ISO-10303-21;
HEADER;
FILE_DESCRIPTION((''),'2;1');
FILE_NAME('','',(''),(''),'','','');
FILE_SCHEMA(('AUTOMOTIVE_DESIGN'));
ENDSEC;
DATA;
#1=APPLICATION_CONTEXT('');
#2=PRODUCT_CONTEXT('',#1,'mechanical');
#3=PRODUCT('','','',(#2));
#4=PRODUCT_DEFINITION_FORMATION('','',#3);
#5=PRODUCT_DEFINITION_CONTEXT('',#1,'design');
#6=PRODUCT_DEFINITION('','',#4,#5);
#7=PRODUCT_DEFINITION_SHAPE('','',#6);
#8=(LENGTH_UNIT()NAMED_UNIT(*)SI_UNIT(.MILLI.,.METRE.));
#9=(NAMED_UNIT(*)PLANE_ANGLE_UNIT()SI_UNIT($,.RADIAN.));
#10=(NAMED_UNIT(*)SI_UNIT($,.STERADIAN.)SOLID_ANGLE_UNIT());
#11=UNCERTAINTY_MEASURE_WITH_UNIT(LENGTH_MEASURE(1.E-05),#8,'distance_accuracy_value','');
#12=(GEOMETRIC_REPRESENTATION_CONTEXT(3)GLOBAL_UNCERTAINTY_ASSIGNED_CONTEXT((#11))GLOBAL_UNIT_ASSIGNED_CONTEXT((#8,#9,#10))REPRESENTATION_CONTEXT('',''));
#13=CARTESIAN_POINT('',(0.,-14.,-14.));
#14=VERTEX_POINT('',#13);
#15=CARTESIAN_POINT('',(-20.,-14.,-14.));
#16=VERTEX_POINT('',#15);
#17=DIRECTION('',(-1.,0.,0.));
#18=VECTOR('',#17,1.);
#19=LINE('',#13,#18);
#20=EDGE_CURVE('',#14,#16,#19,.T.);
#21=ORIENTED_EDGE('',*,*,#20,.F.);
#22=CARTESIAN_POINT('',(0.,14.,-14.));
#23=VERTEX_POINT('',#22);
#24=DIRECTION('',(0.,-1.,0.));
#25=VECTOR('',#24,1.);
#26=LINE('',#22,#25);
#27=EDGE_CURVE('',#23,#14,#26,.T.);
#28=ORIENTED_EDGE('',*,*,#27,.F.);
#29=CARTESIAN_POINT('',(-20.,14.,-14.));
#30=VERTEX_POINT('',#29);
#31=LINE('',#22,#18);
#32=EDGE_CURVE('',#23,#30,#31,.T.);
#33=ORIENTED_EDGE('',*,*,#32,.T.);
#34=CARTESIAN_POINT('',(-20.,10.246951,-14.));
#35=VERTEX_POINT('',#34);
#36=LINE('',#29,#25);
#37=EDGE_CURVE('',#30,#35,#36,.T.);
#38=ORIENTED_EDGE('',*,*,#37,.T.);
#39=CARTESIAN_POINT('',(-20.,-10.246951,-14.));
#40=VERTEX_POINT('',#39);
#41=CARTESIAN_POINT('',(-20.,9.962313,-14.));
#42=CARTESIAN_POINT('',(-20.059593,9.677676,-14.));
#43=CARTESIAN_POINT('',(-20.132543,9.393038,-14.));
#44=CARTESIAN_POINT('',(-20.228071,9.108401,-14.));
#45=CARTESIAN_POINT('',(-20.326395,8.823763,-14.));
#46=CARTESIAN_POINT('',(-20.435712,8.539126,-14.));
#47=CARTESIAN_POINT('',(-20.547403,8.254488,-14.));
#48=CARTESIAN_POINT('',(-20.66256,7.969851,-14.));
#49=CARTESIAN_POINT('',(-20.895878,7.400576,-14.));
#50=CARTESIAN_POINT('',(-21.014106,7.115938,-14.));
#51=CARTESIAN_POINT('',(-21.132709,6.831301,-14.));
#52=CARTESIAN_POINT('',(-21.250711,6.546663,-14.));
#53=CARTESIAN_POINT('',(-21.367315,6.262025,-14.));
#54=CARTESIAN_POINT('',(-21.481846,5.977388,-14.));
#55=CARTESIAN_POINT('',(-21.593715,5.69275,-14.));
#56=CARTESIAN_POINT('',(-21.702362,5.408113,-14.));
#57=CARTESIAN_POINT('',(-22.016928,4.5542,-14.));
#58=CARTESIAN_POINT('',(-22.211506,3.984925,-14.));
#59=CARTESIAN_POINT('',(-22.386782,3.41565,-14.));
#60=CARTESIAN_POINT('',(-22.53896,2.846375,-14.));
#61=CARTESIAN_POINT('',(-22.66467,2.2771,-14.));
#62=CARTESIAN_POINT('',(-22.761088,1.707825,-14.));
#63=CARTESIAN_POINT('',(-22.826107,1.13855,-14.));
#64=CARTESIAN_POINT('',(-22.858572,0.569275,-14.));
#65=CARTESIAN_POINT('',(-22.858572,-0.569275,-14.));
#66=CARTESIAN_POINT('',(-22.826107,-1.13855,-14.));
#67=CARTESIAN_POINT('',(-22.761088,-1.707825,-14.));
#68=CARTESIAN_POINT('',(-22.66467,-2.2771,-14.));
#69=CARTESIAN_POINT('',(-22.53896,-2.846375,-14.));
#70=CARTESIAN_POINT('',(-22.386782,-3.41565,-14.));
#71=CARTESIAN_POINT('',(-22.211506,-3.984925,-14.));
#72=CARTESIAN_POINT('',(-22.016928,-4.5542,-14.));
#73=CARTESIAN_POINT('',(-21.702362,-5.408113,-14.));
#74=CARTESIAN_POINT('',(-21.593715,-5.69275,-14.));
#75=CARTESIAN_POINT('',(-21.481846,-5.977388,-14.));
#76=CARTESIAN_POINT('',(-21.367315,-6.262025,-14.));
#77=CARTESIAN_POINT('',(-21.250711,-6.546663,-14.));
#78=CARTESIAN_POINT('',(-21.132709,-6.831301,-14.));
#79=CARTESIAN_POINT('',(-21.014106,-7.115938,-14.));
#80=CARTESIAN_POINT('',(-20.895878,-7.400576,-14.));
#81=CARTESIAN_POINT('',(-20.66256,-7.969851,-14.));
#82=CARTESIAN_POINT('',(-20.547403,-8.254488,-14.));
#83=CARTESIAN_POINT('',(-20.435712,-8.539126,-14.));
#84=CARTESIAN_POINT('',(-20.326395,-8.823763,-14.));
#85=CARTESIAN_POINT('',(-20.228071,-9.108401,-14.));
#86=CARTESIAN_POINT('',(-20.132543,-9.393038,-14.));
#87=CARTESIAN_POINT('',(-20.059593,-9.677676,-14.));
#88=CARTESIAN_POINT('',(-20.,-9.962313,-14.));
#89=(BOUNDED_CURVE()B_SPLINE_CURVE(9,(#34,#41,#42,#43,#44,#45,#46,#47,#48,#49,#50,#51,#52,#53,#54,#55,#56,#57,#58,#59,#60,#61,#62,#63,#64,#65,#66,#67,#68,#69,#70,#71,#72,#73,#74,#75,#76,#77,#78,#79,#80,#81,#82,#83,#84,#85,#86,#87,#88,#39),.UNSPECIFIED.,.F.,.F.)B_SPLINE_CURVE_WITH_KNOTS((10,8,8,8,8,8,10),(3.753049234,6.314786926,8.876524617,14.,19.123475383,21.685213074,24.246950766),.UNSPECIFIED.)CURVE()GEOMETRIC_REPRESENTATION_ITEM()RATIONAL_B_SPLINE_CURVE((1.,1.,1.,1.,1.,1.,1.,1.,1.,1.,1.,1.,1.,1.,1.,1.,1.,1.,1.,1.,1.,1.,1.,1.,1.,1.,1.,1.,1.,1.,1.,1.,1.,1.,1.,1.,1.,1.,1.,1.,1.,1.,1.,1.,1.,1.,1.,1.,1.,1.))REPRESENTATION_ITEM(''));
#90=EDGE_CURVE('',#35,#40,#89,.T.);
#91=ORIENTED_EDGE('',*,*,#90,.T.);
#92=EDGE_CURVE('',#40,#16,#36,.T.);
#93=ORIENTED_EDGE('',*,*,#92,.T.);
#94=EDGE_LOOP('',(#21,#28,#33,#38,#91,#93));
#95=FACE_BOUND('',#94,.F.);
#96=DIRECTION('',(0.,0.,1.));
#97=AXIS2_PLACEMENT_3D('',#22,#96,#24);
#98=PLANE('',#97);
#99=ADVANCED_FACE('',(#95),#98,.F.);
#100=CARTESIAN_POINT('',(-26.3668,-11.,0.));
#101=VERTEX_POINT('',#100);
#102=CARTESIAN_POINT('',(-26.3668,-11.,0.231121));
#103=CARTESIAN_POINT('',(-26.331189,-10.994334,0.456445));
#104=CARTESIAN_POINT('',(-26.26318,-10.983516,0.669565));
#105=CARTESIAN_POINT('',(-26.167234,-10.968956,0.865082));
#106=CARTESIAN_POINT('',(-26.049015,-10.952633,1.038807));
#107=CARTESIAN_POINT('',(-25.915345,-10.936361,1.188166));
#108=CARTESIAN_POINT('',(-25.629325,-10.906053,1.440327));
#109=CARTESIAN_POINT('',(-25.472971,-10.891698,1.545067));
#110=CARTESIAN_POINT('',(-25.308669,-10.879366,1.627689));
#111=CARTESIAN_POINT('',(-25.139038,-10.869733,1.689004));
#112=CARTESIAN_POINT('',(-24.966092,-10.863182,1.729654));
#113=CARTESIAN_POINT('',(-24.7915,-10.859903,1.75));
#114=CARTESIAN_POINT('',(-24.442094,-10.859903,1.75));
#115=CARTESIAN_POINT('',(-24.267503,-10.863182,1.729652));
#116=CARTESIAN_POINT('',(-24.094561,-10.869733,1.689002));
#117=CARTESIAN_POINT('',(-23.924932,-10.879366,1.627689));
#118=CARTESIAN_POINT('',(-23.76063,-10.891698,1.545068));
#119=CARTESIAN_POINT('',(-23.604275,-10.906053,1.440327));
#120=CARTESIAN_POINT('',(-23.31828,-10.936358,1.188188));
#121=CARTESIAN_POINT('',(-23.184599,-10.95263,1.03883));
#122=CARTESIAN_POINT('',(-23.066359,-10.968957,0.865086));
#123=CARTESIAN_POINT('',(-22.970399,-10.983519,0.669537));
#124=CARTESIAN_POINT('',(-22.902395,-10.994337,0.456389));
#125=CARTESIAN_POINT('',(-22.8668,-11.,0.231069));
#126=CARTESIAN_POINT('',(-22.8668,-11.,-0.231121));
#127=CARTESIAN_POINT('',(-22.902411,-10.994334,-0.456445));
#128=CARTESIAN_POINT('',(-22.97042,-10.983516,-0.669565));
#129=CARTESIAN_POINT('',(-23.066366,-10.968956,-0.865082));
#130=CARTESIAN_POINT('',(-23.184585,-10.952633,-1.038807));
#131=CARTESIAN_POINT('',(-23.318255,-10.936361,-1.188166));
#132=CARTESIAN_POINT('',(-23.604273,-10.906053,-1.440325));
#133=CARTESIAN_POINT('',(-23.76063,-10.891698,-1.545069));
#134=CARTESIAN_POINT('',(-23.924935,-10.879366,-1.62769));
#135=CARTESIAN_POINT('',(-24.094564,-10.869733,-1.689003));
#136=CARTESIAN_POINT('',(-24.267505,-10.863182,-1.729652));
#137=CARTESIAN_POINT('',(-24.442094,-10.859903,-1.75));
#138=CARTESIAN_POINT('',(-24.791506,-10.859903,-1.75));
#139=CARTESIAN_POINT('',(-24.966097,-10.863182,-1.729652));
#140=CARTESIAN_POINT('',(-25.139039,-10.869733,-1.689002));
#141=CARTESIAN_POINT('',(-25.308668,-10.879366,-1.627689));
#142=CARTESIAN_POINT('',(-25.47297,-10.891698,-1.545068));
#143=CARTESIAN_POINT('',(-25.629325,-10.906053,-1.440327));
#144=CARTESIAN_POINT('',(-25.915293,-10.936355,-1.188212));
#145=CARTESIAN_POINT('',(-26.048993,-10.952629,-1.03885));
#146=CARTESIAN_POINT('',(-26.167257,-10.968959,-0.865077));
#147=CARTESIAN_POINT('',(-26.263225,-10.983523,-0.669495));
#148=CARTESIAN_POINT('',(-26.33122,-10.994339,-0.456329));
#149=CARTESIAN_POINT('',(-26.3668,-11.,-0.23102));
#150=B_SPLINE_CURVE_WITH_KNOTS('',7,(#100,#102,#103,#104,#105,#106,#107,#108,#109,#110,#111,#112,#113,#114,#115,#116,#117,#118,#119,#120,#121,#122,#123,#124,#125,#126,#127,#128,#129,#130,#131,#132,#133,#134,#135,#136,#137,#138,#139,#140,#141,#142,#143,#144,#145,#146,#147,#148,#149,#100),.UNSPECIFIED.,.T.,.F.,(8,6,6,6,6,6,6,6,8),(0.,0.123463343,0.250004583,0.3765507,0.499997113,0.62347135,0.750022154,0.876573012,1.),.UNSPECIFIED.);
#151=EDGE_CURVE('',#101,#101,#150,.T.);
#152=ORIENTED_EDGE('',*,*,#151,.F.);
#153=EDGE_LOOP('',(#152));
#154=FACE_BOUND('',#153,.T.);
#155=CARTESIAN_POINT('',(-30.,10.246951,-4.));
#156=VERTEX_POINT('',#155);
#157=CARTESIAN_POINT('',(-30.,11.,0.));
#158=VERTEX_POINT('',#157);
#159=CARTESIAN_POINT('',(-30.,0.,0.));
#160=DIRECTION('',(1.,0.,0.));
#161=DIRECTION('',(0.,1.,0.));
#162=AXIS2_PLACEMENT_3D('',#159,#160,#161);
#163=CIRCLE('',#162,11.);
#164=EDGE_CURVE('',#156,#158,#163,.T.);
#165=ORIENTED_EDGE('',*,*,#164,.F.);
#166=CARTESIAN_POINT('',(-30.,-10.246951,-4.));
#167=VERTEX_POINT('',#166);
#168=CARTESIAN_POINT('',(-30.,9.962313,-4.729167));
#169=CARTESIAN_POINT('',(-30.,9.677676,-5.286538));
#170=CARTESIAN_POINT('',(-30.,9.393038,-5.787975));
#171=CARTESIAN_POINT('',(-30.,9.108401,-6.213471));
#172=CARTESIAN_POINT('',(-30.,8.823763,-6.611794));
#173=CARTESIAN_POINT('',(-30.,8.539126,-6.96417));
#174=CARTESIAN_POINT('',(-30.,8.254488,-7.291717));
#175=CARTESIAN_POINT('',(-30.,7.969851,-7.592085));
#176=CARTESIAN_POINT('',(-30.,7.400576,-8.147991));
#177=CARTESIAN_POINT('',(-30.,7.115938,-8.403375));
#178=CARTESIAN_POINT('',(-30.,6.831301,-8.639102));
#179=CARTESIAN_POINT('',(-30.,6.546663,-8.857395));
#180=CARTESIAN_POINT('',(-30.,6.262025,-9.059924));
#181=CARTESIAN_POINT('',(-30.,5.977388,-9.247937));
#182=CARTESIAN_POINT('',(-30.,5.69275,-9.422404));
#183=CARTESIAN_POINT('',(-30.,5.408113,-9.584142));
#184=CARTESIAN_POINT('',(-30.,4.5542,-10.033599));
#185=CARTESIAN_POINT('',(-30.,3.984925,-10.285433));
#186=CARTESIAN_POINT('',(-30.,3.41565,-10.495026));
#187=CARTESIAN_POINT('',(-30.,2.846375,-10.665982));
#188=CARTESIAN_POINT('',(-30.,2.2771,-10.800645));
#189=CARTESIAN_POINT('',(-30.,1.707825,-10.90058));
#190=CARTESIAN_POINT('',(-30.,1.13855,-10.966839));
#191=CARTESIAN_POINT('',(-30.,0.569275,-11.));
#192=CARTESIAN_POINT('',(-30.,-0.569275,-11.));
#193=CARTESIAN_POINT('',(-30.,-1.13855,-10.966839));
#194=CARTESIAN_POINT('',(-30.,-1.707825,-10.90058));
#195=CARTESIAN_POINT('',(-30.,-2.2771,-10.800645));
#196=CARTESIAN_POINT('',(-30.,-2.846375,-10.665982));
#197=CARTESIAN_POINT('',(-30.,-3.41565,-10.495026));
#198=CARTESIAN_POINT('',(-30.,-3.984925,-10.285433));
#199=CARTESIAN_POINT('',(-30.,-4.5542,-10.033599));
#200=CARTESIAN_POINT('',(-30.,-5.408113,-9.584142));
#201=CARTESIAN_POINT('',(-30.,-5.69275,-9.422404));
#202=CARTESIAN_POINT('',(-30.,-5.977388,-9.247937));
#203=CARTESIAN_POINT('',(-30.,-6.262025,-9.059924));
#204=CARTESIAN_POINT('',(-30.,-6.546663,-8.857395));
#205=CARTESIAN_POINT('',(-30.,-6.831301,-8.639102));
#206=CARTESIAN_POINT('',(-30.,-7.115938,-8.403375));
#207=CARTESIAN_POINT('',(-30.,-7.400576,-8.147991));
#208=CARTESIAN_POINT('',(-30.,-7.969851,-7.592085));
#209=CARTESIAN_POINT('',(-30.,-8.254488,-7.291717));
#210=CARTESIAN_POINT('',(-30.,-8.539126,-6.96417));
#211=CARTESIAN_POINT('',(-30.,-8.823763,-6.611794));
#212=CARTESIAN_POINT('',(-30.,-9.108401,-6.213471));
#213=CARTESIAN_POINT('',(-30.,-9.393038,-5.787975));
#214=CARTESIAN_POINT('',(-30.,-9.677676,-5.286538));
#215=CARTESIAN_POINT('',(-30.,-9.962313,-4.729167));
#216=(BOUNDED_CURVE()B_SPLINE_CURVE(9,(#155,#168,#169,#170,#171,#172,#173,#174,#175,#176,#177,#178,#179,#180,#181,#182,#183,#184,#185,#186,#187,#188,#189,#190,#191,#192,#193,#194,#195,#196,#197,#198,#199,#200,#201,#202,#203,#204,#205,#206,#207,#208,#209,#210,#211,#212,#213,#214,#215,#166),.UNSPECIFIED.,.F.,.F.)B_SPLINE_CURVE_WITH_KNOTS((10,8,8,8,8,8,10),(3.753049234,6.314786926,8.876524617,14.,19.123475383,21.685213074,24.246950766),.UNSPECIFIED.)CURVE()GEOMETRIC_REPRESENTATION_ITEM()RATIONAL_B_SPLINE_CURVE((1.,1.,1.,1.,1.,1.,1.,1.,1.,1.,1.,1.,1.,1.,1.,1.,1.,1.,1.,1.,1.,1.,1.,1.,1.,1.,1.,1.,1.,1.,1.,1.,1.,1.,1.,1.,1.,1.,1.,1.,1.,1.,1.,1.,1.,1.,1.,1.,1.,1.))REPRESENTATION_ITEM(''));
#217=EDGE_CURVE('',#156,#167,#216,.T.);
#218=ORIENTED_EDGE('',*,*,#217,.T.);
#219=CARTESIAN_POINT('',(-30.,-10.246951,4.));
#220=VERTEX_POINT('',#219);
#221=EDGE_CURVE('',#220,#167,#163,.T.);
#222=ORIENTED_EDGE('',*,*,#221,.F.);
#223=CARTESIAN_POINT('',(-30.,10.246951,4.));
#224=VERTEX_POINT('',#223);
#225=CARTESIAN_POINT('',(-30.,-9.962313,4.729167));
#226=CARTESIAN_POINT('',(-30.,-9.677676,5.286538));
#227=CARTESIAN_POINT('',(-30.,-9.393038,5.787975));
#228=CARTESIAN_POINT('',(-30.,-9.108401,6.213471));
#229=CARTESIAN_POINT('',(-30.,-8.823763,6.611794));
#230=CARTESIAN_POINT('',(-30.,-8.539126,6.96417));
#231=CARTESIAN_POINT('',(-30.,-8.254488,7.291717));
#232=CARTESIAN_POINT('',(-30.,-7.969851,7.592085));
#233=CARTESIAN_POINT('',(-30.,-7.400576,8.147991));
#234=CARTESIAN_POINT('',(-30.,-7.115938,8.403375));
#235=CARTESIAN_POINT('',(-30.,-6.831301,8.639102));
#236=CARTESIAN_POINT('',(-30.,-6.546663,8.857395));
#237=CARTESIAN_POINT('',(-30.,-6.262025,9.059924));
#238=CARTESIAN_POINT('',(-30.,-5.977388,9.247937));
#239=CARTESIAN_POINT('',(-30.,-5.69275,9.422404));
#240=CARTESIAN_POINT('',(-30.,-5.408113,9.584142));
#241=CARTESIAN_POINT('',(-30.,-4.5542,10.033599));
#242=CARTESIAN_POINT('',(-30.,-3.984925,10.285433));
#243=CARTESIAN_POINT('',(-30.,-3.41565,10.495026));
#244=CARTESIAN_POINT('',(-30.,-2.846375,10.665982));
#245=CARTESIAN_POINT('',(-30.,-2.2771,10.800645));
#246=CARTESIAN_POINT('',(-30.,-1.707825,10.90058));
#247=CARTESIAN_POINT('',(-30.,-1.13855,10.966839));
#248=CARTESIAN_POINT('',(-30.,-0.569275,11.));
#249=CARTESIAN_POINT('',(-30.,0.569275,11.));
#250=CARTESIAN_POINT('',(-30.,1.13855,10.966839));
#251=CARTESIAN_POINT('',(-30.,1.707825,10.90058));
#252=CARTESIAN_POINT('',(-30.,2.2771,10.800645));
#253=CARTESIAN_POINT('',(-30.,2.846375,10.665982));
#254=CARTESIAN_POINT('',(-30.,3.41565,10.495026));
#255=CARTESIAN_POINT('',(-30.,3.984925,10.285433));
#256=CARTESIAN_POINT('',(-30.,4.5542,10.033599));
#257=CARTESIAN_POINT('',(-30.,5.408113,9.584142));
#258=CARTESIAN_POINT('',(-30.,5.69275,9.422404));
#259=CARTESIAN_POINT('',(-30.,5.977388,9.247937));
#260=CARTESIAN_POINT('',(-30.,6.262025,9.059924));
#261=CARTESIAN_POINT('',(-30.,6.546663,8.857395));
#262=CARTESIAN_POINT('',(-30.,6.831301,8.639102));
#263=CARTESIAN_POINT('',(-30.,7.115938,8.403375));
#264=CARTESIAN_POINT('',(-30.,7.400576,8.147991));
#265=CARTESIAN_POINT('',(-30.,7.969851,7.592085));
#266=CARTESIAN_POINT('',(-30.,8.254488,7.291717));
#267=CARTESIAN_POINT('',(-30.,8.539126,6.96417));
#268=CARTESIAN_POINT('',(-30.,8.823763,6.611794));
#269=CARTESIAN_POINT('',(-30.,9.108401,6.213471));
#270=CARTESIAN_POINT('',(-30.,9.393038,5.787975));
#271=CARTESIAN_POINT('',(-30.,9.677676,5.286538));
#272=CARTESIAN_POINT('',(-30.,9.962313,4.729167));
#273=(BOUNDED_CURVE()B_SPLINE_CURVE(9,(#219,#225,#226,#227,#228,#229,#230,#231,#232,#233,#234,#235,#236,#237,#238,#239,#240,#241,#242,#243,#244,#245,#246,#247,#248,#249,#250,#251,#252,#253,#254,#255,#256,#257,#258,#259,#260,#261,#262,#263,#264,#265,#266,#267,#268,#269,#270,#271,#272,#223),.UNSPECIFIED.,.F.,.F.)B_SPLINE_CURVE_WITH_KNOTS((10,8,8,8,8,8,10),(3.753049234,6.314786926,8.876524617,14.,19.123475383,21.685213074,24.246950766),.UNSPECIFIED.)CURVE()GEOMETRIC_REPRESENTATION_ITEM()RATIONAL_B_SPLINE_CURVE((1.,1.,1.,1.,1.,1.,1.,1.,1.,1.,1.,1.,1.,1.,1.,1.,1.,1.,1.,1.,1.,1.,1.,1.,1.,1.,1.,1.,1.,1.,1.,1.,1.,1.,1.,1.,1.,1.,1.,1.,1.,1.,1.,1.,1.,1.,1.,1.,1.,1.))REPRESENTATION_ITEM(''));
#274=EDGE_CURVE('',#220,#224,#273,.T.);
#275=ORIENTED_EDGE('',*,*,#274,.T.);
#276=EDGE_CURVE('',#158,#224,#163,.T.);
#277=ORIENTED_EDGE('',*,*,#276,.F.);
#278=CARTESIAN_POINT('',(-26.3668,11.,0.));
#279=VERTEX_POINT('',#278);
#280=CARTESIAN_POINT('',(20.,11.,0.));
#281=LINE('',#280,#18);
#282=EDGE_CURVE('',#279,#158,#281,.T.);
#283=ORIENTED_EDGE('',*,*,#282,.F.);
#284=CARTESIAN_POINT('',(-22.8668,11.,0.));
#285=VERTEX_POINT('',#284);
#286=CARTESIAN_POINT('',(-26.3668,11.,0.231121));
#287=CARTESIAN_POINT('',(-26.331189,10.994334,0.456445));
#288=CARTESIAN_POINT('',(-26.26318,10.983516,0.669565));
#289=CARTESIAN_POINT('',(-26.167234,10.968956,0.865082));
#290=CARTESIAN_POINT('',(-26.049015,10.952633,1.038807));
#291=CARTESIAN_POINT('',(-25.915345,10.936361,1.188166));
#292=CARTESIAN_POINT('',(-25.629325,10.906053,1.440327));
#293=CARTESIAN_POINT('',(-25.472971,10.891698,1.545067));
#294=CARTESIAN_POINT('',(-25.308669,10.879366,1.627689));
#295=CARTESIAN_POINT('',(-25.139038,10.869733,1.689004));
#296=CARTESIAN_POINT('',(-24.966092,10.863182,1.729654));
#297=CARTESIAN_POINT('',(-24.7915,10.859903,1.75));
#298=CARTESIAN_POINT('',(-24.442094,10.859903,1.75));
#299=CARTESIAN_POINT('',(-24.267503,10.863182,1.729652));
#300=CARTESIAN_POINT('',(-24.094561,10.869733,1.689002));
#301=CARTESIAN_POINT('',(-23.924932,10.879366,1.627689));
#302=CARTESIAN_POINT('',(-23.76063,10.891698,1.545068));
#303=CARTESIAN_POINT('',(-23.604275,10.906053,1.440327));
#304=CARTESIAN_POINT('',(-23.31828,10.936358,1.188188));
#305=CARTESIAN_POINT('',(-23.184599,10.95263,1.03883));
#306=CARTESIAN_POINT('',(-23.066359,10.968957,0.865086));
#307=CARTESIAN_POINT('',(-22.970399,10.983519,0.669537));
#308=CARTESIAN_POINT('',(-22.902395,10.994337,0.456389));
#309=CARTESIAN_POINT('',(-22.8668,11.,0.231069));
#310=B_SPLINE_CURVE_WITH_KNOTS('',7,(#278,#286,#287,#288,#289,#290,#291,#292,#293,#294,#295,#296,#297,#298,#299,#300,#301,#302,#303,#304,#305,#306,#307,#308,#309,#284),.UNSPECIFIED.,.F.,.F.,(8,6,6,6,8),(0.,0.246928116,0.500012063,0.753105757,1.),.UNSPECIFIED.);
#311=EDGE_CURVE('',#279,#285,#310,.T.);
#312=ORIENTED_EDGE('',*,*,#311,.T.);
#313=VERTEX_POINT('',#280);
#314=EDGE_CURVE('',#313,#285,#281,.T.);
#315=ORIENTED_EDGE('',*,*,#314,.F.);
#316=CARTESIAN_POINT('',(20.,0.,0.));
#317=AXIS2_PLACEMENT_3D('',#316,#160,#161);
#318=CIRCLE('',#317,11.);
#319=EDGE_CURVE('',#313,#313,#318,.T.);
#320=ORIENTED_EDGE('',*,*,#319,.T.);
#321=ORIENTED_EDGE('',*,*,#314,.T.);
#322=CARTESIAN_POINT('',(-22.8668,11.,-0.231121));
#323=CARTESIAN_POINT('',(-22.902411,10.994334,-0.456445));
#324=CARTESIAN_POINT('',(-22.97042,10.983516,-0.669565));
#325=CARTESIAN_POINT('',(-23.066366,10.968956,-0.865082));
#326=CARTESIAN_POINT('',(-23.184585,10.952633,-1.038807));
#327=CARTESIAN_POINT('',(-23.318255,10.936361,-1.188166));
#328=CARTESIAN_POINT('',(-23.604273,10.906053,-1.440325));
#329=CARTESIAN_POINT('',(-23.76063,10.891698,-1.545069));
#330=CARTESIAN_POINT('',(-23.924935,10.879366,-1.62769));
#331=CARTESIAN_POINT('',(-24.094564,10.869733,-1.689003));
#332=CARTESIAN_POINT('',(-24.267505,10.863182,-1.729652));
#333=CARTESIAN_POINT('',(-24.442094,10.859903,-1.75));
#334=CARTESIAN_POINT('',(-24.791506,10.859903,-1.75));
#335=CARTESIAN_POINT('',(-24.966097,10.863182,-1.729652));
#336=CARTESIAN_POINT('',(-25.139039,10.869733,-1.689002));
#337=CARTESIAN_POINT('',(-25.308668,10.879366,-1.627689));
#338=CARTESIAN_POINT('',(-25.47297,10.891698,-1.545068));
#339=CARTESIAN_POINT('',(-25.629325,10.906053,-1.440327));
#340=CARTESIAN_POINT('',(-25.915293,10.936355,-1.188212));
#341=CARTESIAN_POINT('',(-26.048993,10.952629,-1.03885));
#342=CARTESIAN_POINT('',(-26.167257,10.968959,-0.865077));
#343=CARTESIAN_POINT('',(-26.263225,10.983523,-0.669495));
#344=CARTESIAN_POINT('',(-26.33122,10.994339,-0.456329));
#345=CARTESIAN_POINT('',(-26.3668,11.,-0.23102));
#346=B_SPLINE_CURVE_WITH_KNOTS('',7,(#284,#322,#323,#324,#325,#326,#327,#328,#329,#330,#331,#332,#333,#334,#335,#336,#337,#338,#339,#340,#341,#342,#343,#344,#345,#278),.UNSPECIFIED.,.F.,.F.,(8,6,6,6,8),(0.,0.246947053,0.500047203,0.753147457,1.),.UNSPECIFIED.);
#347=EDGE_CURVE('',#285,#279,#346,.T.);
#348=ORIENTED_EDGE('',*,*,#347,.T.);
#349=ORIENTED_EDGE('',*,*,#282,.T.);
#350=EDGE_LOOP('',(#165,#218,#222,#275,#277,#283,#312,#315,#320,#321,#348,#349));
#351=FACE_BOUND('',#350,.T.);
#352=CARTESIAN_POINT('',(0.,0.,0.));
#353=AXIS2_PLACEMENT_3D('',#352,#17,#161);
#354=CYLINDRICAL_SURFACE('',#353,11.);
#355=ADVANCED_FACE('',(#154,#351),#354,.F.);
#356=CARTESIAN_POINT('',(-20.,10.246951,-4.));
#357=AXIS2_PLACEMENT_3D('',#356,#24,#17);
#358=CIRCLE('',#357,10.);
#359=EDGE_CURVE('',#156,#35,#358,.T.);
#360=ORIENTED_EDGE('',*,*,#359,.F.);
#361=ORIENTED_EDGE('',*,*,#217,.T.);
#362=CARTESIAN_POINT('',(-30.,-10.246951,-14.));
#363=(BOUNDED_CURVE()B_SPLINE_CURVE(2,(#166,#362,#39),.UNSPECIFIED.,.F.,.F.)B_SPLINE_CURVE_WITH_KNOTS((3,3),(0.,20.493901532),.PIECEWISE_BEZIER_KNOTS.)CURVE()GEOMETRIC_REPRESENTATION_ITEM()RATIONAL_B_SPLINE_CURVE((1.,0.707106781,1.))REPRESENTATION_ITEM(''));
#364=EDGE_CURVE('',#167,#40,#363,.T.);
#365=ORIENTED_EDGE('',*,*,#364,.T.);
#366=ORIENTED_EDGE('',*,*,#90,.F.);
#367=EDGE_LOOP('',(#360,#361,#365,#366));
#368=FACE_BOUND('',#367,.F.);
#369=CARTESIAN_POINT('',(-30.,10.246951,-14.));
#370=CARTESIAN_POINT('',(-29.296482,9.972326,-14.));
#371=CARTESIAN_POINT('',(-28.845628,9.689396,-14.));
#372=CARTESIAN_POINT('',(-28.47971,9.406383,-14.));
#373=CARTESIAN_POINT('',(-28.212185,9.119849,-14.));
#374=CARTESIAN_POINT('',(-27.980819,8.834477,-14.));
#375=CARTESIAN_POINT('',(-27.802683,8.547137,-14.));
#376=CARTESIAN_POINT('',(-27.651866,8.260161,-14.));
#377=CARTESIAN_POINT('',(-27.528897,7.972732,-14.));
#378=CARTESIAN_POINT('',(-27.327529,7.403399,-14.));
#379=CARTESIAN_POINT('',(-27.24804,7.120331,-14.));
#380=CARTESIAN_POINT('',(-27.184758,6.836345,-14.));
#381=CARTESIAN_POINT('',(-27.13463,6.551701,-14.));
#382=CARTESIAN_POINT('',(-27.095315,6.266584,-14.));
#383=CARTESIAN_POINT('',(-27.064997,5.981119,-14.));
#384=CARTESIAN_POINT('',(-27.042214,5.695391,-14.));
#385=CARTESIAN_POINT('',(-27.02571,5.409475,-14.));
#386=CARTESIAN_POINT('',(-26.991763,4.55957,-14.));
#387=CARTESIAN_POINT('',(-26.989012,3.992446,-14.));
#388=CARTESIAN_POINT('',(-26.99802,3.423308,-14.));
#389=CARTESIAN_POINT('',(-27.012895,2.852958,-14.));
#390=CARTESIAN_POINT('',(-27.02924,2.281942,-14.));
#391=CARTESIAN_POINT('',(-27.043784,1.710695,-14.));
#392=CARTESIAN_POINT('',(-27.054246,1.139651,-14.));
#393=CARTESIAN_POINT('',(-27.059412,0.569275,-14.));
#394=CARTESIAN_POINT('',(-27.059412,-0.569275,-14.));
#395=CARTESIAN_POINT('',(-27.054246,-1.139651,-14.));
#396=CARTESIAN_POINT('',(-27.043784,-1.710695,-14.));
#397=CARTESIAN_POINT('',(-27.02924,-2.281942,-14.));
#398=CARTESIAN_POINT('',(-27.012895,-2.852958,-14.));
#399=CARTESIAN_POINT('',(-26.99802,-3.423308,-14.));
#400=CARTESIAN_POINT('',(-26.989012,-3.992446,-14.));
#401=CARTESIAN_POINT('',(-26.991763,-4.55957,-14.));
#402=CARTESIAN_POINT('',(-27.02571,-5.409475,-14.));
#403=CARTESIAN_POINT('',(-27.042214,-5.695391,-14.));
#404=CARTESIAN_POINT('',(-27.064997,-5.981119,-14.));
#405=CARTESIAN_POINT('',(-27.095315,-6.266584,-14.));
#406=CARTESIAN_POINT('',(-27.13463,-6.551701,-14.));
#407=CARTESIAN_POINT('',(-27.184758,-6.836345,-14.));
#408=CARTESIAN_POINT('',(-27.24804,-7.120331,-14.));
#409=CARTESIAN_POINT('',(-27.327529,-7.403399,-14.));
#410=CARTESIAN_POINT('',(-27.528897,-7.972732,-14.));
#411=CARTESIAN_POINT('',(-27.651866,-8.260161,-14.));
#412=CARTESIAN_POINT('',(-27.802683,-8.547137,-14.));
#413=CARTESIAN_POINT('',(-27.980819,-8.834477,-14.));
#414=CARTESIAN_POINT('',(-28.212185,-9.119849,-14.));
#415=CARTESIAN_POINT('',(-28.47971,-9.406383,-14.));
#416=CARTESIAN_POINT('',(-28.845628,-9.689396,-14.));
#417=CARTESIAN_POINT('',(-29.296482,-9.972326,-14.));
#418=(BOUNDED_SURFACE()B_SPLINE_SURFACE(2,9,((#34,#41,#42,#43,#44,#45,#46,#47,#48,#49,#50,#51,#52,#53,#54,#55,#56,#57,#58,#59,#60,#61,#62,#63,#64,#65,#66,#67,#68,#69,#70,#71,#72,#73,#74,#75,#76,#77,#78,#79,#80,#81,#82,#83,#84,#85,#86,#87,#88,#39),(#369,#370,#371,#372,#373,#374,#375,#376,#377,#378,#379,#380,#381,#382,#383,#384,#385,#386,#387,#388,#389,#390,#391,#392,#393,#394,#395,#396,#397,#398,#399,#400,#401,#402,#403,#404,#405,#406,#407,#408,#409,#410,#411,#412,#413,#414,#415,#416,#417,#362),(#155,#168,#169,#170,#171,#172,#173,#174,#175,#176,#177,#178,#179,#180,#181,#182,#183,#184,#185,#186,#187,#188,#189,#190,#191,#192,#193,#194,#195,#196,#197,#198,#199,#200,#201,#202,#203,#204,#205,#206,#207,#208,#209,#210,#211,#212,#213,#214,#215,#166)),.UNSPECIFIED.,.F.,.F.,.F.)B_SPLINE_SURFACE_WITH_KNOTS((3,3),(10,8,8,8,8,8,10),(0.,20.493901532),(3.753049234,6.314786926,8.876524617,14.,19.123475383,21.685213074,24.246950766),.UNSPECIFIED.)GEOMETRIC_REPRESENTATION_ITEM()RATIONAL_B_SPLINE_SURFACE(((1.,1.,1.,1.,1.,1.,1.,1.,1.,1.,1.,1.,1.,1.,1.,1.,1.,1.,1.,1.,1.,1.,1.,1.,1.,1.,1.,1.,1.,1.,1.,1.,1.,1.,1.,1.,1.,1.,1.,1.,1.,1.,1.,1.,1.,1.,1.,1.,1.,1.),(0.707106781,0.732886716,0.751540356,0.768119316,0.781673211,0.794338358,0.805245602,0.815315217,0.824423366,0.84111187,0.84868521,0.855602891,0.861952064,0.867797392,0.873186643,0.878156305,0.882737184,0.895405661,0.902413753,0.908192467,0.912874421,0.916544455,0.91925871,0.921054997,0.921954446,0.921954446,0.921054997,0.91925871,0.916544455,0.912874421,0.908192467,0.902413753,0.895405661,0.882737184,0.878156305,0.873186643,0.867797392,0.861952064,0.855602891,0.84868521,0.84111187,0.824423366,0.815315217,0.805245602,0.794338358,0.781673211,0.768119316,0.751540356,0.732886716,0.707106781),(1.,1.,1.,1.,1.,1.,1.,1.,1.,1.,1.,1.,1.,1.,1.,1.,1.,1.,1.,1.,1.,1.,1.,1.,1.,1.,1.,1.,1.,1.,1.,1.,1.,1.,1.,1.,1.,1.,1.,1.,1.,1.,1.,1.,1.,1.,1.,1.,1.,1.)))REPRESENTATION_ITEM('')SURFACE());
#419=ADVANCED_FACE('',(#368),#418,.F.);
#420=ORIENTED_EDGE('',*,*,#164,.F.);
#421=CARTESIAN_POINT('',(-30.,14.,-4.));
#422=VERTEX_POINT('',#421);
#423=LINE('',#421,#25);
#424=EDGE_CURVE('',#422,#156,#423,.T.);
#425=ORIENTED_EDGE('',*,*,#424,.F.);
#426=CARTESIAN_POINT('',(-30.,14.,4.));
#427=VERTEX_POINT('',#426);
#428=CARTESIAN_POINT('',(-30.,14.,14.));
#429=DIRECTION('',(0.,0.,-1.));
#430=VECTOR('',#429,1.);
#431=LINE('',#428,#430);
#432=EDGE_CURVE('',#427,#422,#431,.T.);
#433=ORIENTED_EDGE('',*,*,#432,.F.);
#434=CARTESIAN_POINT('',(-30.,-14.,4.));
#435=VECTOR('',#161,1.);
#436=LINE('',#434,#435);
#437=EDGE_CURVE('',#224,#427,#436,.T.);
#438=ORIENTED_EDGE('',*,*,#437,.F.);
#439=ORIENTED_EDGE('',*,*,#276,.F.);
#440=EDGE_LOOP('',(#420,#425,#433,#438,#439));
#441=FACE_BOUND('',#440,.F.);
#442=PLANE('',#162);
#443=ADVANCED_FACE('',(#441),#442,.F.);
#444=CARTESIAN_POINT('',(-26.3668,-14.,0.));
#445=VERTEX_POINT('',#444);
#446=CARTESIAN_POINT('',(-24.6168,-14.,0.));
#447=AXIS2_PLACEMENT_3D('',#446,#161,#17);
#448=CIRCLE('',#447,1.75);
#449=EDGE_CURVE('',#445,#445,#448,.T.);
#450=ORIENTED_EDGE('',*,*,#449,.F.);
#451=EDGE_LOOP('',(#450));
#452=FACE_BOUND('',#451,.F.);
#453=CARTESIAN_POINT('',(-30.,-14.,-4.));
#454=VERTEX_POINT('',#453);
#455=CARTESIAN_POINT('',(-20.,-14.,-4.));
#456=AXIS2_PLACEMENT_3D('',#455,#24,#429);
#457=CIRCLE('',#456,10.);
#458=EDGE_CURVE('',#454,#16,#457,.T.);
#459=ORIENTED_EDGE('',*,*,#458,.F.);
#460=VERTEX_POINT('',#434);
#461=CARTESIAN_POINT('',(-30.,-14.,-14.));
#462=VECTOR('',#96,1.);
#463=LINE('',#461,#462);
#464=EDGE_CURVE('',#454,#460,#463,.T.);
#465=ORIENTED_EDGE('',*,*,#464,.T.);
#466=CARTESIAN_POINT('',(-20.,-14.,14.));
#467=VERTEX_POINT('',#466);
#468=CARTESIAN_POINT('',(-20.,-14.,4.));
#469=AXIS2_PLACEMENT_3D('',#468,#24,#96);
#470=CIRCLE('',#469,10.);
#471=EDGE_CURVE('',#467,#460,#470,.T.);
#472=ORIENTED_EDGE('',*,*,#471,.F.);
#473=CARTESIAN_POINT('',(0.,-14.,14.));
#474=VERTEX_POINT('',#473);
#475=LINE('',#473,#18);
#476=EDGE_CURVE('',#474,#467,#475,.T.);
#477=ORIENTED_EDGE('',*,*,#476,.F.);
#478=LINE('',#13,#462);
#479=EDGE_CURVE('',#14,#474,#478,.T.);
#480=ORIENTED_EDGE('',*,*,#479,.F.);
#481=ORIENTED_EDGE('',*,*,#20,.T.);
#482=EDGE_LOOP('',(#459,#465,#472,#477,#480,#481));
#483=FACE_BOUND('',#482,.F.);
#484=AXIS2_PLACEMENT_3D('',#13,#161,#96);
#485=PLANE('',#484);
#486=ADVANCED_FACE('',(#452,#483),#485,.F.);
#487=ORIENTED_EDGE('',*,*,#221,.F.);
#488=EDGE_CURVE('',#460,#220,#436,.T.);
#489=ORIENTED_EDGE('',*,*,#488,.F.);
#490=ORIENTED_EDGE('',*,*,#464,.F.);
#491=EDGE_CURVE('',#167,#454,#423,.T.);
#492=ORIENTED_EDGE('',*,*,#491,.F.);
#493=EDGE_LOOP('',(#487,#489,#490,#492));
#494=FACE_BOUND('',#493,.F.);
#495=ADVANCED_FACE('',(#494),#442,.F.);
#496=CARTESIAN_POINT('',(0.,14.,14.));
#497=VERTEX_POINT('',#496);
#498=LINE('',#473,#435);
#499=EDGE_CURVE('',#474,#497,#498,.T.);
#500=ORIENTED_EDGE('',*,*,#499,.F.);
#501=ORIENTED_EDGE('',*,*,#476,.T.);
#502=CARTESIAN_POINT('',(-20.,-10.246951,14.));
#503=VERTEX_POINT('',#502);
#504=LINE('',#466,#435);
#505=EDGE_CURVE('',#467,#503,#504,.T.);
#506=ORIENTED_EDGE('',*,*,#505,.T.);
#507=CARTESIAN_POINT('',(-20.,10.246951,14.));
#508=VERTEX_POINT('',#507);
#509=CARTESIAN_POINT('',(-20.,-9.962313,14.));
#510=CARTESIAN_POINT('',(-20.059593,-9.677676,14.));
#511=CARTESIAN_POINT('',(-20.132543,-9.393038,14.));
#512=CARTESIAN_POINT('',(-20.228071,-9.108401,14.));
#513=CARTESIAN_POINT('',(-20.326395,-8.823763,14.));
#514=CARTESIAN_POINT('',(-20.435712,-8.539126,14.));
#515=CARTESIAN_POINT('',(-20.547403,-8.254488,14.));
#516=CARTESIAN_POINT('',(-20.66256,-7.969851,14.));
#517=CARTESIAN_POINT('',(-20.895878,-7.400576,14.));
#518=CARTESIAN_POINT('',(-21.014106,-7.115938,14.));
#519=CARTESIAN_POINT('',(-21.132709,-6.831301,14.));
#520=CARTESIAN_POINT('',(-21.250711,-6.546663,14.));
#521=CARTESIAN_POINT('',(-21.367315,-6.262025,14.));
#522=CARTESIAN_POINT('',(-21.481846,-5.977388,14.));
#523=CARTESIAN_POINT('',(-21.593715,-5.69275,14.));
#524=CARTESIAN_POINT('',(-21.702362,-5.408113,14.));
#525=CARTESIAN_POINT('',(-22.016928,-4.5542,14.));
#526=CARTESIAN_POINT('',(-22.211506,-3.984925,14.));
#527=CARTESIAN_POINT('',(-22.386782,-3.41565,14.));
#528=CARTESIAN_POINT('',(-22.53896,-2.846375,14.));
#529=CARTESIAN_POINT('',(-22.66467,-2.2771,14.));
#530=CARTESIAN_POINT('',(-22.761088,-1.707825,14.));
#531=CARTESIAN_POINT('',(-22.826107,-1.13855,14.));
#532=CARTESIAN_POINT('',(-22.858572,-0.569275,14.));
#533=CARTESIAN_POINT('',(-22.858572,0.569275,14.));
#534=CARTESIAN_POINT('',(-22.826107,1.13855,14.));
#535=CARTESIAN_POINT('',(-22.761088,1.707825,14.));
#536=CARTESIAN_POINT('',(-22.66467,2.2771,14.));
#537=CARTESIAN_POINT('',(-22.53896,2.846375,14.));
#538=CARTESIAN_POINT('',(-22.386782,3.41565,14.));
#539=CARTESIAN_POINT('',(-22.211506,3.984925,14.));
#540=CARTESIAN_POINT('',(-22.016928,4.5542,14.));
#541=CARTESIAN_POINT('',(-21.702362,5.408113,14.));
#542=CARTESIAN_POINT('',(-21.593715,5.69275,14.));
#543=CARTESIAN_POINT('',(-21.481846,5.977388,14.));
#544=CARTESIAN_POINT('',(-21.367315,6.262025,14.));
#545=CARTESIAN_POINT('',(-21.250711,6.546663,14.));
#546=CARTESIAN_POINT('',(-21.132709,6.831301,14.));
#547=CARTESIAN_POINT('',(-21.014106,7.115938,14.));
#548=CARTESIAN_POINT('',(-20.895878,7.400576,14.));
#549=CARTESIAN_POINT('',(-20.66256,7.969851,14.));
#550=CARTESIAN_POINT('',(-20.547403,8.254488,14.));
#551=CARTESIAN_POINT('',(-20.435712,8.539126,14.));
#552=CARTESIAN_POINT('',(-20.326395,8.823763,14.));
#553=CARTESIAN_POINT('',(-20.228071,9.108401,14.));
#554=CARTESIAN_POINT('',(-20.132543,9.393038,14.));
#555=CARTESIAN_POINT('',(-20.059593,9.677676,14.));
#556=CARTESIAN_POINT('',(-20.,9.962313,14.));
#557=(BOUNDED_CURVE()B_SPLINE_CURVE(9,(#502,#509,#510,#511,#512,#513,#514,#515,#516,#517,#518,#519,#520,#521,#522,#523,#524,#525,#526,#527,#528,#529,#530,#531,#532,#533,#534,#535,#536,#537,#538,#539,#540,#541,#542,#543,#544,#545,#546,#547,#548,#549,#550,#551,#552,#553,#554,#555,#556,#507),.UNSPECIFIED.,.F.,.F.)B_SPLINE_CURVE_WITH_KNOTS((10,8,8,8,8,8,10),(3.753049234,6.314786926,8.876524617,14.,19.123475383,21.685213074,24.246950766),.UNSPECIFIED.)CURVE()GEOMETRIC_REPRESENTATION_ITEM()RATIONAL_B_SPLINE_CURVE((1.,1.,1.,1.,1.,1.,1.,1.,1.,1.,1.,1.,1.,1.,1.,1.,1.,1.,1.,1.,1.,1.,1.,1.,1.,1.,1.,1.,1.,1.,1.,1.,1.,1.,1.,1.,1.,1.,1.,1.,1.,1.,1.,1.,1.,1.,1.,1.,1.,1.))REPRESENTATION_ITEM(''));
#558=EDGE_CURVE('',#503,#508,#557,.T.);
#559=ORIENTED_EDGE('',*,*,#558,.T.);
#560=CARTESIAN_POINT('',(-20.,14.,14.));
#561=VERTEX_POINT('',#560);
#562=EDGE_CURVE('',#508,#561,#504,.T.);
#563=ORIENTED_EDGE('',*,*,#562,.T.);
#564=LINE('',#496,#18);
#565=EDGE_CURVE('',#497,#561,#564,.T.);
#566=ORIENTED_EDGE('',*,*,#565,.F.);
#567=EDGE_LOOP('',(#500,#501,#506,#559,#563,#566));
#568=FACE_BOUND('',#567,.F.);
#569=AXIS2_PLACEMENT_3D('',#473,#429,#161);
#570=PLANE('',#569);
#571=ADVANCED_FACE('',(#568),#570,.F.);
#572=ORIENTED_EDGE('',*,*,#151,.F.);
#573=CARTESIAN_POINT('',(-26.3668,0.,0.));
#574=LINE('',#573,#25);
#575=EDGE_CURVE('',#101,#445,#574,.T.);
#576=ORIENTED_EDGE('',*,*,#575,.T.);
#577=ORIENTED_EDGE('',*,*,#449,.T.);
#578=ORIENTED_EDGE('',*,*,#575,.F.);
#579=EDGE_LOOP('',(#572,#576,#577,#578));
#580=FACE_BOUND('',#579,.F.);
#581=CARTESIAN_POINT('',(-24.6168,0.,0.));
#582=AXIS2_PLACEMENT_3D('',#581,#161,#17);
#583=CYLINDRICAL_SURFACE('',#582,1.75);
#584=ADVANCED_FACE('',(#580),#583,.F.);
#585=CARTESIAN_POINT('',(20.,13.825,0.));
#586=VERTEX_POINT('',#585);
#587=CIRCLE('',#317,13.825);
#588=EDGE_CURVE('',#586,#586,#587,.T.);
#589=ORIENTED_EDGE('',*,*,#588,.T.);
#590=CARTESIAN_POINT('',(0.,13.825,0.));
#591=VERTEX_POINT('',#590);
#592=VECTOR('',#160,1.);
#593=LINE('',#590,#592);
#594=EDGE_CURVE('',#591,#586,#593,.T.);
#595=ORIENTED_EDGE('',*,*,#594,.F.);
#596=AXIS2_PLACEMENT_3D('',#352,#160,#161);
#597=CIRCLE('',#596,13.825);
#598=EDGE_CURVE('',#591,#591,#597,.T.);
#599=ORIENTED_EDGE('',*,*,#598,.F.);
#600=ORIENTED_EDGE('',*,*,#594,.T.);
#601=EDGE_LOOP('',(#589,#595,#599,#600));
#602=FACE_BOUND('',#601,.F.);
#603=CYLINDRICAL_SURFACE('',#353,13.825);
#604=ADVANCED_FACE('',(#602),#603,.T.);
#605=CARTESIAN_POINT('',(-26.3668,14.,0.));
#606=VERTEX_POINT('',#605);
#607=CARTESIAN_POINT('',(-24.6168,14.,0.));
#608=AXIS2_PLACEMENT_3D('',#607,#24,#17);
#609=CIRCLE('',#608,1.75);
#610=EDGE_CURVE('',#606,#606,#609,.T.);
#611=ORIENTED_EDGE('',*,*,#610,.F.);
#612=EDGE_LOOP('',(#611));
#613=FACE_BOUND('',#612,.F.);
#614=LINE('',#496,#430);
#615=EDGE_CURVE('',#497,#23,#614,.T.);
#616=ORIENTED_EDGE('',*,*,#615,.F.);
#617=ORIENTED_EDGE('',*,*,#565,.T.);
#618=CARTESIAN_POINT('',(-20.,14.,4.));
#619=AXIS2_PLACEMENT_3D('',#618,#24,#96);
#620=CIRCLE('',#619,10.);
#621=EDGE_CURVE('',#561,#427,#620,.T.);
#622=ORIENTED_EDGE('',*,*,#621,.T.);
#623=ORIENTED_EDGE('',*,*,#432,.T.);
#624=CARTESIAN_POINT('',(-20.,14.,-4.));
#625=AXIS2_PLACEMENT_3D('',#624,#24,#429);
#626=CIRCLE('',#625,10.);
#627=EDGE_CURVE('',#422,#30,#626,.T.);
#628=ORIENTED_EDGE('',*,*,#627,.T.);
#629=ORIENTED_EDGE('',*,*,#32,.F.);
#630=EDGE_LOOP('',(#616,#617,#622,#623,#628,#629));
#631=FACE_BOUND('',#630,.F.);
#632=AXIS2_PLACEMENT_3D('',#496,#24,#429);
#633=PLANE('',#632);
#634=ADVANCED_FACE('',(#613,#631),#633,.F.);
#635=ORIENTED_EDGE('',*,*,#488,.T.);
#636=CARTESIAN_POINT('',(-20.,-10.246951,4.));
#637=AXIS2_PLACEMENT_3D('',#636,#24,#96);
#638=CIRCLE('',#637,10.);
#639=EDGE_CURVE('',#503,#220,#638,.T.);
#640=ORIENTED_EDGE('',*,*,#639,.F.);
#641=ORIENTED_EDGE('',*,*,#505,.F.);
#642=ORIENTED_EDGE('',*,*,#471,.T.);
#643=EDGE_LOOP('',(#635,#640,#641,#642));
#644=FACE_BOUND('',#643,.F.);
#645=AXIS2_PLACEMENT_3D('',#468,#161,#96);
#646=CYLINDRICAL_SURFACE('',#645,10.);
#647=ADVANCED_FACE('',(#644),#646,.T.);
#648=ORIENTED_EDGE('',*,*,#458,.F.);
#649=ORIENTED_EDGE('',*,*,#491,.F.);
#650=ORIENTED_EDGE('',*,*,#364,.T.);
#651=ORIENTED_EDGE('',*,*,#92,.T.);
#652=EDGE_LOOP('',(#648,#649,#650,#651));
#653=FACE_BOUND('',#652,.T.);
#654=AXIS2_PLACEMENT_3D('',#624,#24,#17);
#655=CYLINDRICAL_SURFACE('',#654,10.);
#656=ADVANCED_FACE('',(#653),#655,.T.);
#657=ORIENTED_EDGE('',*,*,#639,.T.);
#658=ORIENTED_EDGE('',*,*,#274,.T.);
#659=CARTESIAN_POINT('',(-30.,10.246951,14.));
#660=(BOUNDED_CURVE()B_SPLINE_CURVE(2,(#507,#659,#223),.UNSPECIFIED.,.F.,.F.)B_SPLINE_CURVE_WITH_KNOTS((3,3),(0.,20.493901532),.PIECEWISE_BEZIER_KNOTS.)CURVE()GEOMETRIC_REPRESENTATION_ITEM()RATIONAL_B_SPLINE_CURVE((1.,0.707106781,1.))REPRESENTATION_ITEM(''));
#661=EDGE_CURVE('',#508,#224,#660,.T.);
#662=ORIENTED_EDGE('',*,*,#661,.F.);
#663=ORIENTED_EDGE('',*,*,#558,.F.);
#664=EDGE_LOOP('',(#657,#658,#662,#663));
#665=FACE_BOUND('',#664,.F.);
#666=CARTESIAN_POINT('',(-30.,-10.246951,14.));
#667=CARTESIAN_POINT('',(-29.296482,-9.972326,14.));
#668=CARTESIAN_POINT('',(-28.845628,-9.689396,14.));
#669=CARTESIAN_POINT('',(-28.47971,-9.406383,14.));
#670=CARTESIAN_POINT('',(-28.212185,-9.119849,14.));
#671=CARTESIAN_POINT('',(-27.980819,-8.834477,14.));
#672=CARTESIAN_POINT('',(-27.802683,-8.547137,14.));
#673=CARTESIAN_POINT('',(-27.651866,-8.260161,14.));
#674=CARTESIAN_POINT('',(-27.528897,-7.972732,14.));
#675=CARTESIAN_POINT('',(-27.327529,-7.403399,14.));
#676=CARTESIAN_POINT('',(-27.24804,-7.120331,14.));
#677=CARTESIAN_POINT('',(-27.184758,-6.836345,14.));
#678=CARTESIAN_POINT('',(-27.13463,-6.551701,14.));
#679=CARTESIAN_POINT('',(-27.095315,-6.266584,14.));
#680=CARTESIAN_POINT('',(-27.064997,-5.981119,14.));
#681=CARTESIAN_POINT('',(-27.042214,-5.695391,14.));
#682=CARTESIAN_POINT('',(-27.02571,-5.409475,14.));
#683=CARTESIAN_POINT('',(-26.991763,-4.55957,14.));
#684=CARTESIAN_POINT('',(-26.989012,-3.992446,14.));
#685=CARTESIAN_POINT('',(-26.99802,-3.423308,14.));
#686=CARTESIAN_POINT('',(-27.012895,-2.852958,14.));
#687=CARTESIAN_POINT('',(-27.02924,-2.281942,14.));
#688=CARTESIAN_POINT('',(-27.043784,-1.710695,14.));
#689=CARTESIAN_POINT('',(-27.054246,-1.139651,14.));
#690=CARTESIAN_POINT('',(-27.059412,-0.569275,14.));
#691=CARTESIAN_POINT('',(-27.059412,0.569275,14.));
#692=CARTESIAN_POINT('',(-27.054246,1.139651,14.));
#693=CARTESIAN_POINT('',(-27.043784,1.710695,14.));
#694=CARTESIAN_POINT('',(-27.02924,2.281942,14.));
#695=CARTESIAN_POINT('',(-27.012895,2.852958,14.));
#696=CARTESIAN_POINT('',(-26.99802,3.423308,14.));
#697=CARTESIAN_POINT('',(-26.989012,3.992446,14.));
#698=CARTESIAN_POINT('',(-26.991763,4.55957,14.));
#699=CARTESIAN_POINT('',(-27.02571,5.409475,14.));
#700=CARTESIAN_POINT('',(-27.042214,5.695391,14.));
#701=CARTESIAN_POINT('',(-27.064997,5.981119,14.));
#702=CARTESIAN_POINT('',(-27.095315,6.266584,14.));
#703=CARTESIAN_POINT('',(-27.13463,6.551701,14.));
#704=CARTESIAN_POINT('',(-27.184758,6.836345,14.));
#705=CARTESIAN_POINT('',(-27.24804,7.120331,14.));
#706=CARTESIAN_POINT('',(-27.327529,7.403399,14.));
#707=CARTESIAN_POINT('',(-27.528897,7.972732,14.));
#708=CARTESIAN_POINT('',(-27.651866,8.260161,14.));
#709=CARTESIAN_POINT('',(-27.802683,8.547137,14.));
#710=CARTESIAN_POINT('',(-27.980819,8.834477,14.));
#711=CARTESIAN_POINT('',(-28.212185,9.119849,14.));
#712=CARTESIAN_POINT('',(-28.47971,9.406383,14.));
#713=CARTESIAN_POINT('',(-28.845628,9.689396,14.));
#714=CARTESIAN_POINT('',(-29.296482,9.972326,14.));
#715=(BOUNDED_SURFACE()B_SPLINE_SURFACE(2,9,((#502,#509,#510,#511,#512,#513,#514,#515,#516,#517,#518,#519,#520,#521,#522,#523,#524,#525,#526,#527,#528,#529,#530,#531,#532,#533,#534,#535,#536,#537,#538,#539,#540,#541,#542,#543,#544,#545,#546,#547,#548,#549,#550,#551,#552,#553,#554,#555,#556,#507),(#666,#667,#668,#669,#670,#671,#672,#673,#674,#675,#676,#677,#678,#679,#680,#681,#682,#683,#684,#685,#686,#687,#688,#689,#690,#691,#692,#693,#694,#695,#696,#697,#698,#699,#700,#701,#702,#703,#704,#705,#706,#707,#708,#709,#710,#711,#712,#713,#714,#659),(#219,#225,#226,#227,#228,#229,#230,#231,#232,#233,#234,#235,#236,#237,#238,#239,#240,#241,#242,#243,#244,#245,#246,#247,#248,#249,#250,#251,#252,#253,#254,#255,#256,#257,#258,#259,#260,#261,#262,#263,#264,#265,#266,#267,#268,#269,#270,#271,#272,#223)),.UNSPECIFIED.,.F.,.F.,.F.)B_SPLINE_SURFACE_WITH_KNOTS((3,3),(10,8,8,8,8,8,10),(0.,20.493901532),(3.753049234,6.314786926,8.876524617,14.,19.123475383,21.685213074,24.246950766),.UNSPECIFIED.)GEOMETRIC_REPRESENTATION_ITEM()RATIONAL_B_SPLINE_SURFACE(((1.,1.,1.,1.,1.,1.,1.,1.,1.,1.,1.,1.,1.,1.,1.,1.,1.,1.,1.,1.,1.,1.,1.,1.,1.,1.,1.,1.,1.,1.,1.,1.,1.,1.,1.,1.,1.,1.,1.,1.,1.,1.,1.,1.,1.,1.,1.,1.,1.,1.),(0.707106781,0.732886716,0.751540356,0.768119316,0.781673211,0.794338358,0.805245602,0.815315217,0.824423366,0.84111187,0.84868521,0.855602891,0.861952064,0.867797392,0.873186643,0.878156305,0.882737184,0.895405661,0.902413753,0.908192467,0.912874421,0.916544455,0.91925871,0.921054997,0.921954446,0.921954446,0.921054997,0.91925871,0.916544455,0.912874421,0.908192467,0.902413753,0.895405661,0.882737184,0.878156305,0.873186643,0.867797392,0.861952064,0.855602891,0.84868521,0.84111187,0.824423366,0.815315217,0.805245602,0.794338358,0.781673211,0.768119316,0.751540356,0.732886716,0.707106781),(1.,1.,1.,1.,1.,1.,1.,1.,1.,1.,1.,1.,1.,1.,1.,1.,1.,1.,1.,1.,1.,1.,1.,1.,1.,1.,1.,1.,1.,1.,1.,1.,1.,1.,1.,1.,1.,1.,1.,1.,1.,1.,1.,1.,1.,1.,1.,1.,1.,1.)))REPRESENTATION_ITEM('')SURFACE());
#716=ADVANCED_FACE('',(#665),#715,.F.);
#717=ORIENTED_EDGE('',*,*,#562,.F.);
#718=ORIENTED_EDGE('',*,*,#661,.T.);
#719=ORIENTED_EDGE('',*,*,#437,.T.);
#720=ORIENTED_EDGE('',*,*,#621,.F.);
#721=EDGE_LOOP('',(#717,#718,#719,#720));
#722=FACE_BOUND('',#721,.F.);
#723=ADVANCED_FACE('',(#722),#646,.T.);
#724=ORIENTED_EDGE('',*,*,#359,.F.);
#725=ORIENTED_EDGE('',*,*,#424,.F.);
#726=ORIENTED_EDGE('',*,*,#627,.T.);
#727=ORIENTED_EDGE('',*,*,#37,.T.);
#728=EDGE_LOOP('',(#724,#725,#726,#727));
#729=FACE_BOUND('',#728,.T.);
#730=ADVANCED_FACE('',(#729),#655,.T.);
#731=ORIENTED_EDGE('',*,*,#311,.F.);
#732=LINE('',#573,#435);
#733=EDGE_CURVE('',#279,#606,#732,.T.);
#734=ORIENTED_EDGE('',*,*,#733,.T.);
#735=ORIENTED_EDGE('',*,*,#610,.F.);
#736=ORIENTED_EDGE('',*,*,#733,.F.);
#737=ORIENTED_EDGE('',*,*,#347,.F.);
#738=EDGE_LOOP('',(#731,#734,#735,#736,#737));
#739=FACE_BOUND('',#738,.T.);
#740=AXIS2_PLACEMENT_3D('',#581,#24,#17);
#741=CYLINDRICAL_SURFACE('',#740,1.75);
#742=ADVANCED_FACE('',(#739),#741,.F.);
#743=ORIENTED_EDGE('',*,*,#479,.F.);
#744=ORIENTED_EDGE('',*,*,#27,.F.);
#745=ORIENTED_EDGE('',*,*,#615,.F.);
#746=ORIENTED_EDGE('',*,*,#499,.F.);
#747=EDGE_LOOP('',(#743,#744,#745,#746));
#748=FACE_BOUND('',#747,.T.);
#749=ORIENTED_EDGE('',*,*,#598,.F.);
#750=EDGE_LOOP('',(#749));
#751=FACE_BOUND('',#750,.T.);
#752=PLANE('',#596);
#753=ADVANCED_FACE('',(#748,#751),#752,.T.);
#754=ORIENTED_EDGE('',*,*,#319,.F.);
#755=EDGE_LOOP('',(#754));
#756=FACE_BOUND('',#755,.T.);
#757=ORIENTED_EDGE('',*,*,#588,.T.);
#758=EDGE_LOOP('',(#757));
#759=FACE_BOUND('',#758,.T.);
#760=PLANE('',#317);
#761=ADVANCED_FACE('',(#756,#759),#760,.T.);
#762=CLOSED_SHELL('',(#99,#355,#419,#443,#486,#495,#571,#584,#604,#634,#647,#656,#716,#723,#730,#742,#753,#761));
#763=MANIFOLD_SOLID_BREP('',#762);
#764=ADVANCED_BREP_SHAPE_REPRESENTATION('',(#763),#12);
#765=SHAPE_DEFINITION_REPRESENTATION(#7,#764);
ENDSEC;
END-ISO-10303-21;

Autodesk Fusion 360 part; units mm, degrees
sketch "Sketch6" plane through (0, 0, 0) normal (1, 0, 0) x (0, 1, 0)
  circle A0 centre (0, 0) radius 13.825
  circle A1 centre (0, 0) radius 11
  line L0 (-14, 14) -> (14, 14)
  line L1 (14, 14) -> (14, -14)
  line L2 (14, -14) -> (-14, -14)
  line L3 (-14, -14) -> (-14, 14)
  line L4 (-14, 14) -> (14, -14) construction
  line L5 (14, 14) -> (-14, -14) construction
  dimension "d41" = 27.65
  dimension "d42" = 22
extrude "Extrude8" add sketch "Sketch6" along normal blind 20 contours A0
extrude "Extrude9" add sketch "Sketch6" against normal blind 30 contours A0 | L0 L1 L2 L3
fillet "Fillet1" radius 10 1 edges at (-30, 0, 14)
fillet "Fillet2" radius 10 1 edges at (-30, 0, -14)
sketch "Sketch7" plane through (0, 14, 0) normal (0, 1, 0) x (-1, 0, 0)
  arc A0 (20, -14) -> (30, -4) centre (20, -4) ccw
  line L0 (30, -4) -> (30, 4)
  arc A1 (30, 4) -> (20, 14) centre (20, 4) ccw
  line L1 (20, 14) -> (0, 14)
  line L2 (0, 14) -> (0, -14)
  line L3 (0, -14) -> (20, -14)
  line L4 (0, 14) -> (27.0711, -11.0711) construction
  circle A2 centre (24.6168, 0) radius 1.75
  line L5 (0, -14) -> (27.0711, 11.0711) construction
  line L6 (15.1168, 0) -> (24.6168, 0) construction
  dimension "d51" = 3.5
  dimension "d55" = 9.5
extrude "Extrude10" cut sketch "Sketch7" along normal mid plane 42 from surface at -14 contours A2
